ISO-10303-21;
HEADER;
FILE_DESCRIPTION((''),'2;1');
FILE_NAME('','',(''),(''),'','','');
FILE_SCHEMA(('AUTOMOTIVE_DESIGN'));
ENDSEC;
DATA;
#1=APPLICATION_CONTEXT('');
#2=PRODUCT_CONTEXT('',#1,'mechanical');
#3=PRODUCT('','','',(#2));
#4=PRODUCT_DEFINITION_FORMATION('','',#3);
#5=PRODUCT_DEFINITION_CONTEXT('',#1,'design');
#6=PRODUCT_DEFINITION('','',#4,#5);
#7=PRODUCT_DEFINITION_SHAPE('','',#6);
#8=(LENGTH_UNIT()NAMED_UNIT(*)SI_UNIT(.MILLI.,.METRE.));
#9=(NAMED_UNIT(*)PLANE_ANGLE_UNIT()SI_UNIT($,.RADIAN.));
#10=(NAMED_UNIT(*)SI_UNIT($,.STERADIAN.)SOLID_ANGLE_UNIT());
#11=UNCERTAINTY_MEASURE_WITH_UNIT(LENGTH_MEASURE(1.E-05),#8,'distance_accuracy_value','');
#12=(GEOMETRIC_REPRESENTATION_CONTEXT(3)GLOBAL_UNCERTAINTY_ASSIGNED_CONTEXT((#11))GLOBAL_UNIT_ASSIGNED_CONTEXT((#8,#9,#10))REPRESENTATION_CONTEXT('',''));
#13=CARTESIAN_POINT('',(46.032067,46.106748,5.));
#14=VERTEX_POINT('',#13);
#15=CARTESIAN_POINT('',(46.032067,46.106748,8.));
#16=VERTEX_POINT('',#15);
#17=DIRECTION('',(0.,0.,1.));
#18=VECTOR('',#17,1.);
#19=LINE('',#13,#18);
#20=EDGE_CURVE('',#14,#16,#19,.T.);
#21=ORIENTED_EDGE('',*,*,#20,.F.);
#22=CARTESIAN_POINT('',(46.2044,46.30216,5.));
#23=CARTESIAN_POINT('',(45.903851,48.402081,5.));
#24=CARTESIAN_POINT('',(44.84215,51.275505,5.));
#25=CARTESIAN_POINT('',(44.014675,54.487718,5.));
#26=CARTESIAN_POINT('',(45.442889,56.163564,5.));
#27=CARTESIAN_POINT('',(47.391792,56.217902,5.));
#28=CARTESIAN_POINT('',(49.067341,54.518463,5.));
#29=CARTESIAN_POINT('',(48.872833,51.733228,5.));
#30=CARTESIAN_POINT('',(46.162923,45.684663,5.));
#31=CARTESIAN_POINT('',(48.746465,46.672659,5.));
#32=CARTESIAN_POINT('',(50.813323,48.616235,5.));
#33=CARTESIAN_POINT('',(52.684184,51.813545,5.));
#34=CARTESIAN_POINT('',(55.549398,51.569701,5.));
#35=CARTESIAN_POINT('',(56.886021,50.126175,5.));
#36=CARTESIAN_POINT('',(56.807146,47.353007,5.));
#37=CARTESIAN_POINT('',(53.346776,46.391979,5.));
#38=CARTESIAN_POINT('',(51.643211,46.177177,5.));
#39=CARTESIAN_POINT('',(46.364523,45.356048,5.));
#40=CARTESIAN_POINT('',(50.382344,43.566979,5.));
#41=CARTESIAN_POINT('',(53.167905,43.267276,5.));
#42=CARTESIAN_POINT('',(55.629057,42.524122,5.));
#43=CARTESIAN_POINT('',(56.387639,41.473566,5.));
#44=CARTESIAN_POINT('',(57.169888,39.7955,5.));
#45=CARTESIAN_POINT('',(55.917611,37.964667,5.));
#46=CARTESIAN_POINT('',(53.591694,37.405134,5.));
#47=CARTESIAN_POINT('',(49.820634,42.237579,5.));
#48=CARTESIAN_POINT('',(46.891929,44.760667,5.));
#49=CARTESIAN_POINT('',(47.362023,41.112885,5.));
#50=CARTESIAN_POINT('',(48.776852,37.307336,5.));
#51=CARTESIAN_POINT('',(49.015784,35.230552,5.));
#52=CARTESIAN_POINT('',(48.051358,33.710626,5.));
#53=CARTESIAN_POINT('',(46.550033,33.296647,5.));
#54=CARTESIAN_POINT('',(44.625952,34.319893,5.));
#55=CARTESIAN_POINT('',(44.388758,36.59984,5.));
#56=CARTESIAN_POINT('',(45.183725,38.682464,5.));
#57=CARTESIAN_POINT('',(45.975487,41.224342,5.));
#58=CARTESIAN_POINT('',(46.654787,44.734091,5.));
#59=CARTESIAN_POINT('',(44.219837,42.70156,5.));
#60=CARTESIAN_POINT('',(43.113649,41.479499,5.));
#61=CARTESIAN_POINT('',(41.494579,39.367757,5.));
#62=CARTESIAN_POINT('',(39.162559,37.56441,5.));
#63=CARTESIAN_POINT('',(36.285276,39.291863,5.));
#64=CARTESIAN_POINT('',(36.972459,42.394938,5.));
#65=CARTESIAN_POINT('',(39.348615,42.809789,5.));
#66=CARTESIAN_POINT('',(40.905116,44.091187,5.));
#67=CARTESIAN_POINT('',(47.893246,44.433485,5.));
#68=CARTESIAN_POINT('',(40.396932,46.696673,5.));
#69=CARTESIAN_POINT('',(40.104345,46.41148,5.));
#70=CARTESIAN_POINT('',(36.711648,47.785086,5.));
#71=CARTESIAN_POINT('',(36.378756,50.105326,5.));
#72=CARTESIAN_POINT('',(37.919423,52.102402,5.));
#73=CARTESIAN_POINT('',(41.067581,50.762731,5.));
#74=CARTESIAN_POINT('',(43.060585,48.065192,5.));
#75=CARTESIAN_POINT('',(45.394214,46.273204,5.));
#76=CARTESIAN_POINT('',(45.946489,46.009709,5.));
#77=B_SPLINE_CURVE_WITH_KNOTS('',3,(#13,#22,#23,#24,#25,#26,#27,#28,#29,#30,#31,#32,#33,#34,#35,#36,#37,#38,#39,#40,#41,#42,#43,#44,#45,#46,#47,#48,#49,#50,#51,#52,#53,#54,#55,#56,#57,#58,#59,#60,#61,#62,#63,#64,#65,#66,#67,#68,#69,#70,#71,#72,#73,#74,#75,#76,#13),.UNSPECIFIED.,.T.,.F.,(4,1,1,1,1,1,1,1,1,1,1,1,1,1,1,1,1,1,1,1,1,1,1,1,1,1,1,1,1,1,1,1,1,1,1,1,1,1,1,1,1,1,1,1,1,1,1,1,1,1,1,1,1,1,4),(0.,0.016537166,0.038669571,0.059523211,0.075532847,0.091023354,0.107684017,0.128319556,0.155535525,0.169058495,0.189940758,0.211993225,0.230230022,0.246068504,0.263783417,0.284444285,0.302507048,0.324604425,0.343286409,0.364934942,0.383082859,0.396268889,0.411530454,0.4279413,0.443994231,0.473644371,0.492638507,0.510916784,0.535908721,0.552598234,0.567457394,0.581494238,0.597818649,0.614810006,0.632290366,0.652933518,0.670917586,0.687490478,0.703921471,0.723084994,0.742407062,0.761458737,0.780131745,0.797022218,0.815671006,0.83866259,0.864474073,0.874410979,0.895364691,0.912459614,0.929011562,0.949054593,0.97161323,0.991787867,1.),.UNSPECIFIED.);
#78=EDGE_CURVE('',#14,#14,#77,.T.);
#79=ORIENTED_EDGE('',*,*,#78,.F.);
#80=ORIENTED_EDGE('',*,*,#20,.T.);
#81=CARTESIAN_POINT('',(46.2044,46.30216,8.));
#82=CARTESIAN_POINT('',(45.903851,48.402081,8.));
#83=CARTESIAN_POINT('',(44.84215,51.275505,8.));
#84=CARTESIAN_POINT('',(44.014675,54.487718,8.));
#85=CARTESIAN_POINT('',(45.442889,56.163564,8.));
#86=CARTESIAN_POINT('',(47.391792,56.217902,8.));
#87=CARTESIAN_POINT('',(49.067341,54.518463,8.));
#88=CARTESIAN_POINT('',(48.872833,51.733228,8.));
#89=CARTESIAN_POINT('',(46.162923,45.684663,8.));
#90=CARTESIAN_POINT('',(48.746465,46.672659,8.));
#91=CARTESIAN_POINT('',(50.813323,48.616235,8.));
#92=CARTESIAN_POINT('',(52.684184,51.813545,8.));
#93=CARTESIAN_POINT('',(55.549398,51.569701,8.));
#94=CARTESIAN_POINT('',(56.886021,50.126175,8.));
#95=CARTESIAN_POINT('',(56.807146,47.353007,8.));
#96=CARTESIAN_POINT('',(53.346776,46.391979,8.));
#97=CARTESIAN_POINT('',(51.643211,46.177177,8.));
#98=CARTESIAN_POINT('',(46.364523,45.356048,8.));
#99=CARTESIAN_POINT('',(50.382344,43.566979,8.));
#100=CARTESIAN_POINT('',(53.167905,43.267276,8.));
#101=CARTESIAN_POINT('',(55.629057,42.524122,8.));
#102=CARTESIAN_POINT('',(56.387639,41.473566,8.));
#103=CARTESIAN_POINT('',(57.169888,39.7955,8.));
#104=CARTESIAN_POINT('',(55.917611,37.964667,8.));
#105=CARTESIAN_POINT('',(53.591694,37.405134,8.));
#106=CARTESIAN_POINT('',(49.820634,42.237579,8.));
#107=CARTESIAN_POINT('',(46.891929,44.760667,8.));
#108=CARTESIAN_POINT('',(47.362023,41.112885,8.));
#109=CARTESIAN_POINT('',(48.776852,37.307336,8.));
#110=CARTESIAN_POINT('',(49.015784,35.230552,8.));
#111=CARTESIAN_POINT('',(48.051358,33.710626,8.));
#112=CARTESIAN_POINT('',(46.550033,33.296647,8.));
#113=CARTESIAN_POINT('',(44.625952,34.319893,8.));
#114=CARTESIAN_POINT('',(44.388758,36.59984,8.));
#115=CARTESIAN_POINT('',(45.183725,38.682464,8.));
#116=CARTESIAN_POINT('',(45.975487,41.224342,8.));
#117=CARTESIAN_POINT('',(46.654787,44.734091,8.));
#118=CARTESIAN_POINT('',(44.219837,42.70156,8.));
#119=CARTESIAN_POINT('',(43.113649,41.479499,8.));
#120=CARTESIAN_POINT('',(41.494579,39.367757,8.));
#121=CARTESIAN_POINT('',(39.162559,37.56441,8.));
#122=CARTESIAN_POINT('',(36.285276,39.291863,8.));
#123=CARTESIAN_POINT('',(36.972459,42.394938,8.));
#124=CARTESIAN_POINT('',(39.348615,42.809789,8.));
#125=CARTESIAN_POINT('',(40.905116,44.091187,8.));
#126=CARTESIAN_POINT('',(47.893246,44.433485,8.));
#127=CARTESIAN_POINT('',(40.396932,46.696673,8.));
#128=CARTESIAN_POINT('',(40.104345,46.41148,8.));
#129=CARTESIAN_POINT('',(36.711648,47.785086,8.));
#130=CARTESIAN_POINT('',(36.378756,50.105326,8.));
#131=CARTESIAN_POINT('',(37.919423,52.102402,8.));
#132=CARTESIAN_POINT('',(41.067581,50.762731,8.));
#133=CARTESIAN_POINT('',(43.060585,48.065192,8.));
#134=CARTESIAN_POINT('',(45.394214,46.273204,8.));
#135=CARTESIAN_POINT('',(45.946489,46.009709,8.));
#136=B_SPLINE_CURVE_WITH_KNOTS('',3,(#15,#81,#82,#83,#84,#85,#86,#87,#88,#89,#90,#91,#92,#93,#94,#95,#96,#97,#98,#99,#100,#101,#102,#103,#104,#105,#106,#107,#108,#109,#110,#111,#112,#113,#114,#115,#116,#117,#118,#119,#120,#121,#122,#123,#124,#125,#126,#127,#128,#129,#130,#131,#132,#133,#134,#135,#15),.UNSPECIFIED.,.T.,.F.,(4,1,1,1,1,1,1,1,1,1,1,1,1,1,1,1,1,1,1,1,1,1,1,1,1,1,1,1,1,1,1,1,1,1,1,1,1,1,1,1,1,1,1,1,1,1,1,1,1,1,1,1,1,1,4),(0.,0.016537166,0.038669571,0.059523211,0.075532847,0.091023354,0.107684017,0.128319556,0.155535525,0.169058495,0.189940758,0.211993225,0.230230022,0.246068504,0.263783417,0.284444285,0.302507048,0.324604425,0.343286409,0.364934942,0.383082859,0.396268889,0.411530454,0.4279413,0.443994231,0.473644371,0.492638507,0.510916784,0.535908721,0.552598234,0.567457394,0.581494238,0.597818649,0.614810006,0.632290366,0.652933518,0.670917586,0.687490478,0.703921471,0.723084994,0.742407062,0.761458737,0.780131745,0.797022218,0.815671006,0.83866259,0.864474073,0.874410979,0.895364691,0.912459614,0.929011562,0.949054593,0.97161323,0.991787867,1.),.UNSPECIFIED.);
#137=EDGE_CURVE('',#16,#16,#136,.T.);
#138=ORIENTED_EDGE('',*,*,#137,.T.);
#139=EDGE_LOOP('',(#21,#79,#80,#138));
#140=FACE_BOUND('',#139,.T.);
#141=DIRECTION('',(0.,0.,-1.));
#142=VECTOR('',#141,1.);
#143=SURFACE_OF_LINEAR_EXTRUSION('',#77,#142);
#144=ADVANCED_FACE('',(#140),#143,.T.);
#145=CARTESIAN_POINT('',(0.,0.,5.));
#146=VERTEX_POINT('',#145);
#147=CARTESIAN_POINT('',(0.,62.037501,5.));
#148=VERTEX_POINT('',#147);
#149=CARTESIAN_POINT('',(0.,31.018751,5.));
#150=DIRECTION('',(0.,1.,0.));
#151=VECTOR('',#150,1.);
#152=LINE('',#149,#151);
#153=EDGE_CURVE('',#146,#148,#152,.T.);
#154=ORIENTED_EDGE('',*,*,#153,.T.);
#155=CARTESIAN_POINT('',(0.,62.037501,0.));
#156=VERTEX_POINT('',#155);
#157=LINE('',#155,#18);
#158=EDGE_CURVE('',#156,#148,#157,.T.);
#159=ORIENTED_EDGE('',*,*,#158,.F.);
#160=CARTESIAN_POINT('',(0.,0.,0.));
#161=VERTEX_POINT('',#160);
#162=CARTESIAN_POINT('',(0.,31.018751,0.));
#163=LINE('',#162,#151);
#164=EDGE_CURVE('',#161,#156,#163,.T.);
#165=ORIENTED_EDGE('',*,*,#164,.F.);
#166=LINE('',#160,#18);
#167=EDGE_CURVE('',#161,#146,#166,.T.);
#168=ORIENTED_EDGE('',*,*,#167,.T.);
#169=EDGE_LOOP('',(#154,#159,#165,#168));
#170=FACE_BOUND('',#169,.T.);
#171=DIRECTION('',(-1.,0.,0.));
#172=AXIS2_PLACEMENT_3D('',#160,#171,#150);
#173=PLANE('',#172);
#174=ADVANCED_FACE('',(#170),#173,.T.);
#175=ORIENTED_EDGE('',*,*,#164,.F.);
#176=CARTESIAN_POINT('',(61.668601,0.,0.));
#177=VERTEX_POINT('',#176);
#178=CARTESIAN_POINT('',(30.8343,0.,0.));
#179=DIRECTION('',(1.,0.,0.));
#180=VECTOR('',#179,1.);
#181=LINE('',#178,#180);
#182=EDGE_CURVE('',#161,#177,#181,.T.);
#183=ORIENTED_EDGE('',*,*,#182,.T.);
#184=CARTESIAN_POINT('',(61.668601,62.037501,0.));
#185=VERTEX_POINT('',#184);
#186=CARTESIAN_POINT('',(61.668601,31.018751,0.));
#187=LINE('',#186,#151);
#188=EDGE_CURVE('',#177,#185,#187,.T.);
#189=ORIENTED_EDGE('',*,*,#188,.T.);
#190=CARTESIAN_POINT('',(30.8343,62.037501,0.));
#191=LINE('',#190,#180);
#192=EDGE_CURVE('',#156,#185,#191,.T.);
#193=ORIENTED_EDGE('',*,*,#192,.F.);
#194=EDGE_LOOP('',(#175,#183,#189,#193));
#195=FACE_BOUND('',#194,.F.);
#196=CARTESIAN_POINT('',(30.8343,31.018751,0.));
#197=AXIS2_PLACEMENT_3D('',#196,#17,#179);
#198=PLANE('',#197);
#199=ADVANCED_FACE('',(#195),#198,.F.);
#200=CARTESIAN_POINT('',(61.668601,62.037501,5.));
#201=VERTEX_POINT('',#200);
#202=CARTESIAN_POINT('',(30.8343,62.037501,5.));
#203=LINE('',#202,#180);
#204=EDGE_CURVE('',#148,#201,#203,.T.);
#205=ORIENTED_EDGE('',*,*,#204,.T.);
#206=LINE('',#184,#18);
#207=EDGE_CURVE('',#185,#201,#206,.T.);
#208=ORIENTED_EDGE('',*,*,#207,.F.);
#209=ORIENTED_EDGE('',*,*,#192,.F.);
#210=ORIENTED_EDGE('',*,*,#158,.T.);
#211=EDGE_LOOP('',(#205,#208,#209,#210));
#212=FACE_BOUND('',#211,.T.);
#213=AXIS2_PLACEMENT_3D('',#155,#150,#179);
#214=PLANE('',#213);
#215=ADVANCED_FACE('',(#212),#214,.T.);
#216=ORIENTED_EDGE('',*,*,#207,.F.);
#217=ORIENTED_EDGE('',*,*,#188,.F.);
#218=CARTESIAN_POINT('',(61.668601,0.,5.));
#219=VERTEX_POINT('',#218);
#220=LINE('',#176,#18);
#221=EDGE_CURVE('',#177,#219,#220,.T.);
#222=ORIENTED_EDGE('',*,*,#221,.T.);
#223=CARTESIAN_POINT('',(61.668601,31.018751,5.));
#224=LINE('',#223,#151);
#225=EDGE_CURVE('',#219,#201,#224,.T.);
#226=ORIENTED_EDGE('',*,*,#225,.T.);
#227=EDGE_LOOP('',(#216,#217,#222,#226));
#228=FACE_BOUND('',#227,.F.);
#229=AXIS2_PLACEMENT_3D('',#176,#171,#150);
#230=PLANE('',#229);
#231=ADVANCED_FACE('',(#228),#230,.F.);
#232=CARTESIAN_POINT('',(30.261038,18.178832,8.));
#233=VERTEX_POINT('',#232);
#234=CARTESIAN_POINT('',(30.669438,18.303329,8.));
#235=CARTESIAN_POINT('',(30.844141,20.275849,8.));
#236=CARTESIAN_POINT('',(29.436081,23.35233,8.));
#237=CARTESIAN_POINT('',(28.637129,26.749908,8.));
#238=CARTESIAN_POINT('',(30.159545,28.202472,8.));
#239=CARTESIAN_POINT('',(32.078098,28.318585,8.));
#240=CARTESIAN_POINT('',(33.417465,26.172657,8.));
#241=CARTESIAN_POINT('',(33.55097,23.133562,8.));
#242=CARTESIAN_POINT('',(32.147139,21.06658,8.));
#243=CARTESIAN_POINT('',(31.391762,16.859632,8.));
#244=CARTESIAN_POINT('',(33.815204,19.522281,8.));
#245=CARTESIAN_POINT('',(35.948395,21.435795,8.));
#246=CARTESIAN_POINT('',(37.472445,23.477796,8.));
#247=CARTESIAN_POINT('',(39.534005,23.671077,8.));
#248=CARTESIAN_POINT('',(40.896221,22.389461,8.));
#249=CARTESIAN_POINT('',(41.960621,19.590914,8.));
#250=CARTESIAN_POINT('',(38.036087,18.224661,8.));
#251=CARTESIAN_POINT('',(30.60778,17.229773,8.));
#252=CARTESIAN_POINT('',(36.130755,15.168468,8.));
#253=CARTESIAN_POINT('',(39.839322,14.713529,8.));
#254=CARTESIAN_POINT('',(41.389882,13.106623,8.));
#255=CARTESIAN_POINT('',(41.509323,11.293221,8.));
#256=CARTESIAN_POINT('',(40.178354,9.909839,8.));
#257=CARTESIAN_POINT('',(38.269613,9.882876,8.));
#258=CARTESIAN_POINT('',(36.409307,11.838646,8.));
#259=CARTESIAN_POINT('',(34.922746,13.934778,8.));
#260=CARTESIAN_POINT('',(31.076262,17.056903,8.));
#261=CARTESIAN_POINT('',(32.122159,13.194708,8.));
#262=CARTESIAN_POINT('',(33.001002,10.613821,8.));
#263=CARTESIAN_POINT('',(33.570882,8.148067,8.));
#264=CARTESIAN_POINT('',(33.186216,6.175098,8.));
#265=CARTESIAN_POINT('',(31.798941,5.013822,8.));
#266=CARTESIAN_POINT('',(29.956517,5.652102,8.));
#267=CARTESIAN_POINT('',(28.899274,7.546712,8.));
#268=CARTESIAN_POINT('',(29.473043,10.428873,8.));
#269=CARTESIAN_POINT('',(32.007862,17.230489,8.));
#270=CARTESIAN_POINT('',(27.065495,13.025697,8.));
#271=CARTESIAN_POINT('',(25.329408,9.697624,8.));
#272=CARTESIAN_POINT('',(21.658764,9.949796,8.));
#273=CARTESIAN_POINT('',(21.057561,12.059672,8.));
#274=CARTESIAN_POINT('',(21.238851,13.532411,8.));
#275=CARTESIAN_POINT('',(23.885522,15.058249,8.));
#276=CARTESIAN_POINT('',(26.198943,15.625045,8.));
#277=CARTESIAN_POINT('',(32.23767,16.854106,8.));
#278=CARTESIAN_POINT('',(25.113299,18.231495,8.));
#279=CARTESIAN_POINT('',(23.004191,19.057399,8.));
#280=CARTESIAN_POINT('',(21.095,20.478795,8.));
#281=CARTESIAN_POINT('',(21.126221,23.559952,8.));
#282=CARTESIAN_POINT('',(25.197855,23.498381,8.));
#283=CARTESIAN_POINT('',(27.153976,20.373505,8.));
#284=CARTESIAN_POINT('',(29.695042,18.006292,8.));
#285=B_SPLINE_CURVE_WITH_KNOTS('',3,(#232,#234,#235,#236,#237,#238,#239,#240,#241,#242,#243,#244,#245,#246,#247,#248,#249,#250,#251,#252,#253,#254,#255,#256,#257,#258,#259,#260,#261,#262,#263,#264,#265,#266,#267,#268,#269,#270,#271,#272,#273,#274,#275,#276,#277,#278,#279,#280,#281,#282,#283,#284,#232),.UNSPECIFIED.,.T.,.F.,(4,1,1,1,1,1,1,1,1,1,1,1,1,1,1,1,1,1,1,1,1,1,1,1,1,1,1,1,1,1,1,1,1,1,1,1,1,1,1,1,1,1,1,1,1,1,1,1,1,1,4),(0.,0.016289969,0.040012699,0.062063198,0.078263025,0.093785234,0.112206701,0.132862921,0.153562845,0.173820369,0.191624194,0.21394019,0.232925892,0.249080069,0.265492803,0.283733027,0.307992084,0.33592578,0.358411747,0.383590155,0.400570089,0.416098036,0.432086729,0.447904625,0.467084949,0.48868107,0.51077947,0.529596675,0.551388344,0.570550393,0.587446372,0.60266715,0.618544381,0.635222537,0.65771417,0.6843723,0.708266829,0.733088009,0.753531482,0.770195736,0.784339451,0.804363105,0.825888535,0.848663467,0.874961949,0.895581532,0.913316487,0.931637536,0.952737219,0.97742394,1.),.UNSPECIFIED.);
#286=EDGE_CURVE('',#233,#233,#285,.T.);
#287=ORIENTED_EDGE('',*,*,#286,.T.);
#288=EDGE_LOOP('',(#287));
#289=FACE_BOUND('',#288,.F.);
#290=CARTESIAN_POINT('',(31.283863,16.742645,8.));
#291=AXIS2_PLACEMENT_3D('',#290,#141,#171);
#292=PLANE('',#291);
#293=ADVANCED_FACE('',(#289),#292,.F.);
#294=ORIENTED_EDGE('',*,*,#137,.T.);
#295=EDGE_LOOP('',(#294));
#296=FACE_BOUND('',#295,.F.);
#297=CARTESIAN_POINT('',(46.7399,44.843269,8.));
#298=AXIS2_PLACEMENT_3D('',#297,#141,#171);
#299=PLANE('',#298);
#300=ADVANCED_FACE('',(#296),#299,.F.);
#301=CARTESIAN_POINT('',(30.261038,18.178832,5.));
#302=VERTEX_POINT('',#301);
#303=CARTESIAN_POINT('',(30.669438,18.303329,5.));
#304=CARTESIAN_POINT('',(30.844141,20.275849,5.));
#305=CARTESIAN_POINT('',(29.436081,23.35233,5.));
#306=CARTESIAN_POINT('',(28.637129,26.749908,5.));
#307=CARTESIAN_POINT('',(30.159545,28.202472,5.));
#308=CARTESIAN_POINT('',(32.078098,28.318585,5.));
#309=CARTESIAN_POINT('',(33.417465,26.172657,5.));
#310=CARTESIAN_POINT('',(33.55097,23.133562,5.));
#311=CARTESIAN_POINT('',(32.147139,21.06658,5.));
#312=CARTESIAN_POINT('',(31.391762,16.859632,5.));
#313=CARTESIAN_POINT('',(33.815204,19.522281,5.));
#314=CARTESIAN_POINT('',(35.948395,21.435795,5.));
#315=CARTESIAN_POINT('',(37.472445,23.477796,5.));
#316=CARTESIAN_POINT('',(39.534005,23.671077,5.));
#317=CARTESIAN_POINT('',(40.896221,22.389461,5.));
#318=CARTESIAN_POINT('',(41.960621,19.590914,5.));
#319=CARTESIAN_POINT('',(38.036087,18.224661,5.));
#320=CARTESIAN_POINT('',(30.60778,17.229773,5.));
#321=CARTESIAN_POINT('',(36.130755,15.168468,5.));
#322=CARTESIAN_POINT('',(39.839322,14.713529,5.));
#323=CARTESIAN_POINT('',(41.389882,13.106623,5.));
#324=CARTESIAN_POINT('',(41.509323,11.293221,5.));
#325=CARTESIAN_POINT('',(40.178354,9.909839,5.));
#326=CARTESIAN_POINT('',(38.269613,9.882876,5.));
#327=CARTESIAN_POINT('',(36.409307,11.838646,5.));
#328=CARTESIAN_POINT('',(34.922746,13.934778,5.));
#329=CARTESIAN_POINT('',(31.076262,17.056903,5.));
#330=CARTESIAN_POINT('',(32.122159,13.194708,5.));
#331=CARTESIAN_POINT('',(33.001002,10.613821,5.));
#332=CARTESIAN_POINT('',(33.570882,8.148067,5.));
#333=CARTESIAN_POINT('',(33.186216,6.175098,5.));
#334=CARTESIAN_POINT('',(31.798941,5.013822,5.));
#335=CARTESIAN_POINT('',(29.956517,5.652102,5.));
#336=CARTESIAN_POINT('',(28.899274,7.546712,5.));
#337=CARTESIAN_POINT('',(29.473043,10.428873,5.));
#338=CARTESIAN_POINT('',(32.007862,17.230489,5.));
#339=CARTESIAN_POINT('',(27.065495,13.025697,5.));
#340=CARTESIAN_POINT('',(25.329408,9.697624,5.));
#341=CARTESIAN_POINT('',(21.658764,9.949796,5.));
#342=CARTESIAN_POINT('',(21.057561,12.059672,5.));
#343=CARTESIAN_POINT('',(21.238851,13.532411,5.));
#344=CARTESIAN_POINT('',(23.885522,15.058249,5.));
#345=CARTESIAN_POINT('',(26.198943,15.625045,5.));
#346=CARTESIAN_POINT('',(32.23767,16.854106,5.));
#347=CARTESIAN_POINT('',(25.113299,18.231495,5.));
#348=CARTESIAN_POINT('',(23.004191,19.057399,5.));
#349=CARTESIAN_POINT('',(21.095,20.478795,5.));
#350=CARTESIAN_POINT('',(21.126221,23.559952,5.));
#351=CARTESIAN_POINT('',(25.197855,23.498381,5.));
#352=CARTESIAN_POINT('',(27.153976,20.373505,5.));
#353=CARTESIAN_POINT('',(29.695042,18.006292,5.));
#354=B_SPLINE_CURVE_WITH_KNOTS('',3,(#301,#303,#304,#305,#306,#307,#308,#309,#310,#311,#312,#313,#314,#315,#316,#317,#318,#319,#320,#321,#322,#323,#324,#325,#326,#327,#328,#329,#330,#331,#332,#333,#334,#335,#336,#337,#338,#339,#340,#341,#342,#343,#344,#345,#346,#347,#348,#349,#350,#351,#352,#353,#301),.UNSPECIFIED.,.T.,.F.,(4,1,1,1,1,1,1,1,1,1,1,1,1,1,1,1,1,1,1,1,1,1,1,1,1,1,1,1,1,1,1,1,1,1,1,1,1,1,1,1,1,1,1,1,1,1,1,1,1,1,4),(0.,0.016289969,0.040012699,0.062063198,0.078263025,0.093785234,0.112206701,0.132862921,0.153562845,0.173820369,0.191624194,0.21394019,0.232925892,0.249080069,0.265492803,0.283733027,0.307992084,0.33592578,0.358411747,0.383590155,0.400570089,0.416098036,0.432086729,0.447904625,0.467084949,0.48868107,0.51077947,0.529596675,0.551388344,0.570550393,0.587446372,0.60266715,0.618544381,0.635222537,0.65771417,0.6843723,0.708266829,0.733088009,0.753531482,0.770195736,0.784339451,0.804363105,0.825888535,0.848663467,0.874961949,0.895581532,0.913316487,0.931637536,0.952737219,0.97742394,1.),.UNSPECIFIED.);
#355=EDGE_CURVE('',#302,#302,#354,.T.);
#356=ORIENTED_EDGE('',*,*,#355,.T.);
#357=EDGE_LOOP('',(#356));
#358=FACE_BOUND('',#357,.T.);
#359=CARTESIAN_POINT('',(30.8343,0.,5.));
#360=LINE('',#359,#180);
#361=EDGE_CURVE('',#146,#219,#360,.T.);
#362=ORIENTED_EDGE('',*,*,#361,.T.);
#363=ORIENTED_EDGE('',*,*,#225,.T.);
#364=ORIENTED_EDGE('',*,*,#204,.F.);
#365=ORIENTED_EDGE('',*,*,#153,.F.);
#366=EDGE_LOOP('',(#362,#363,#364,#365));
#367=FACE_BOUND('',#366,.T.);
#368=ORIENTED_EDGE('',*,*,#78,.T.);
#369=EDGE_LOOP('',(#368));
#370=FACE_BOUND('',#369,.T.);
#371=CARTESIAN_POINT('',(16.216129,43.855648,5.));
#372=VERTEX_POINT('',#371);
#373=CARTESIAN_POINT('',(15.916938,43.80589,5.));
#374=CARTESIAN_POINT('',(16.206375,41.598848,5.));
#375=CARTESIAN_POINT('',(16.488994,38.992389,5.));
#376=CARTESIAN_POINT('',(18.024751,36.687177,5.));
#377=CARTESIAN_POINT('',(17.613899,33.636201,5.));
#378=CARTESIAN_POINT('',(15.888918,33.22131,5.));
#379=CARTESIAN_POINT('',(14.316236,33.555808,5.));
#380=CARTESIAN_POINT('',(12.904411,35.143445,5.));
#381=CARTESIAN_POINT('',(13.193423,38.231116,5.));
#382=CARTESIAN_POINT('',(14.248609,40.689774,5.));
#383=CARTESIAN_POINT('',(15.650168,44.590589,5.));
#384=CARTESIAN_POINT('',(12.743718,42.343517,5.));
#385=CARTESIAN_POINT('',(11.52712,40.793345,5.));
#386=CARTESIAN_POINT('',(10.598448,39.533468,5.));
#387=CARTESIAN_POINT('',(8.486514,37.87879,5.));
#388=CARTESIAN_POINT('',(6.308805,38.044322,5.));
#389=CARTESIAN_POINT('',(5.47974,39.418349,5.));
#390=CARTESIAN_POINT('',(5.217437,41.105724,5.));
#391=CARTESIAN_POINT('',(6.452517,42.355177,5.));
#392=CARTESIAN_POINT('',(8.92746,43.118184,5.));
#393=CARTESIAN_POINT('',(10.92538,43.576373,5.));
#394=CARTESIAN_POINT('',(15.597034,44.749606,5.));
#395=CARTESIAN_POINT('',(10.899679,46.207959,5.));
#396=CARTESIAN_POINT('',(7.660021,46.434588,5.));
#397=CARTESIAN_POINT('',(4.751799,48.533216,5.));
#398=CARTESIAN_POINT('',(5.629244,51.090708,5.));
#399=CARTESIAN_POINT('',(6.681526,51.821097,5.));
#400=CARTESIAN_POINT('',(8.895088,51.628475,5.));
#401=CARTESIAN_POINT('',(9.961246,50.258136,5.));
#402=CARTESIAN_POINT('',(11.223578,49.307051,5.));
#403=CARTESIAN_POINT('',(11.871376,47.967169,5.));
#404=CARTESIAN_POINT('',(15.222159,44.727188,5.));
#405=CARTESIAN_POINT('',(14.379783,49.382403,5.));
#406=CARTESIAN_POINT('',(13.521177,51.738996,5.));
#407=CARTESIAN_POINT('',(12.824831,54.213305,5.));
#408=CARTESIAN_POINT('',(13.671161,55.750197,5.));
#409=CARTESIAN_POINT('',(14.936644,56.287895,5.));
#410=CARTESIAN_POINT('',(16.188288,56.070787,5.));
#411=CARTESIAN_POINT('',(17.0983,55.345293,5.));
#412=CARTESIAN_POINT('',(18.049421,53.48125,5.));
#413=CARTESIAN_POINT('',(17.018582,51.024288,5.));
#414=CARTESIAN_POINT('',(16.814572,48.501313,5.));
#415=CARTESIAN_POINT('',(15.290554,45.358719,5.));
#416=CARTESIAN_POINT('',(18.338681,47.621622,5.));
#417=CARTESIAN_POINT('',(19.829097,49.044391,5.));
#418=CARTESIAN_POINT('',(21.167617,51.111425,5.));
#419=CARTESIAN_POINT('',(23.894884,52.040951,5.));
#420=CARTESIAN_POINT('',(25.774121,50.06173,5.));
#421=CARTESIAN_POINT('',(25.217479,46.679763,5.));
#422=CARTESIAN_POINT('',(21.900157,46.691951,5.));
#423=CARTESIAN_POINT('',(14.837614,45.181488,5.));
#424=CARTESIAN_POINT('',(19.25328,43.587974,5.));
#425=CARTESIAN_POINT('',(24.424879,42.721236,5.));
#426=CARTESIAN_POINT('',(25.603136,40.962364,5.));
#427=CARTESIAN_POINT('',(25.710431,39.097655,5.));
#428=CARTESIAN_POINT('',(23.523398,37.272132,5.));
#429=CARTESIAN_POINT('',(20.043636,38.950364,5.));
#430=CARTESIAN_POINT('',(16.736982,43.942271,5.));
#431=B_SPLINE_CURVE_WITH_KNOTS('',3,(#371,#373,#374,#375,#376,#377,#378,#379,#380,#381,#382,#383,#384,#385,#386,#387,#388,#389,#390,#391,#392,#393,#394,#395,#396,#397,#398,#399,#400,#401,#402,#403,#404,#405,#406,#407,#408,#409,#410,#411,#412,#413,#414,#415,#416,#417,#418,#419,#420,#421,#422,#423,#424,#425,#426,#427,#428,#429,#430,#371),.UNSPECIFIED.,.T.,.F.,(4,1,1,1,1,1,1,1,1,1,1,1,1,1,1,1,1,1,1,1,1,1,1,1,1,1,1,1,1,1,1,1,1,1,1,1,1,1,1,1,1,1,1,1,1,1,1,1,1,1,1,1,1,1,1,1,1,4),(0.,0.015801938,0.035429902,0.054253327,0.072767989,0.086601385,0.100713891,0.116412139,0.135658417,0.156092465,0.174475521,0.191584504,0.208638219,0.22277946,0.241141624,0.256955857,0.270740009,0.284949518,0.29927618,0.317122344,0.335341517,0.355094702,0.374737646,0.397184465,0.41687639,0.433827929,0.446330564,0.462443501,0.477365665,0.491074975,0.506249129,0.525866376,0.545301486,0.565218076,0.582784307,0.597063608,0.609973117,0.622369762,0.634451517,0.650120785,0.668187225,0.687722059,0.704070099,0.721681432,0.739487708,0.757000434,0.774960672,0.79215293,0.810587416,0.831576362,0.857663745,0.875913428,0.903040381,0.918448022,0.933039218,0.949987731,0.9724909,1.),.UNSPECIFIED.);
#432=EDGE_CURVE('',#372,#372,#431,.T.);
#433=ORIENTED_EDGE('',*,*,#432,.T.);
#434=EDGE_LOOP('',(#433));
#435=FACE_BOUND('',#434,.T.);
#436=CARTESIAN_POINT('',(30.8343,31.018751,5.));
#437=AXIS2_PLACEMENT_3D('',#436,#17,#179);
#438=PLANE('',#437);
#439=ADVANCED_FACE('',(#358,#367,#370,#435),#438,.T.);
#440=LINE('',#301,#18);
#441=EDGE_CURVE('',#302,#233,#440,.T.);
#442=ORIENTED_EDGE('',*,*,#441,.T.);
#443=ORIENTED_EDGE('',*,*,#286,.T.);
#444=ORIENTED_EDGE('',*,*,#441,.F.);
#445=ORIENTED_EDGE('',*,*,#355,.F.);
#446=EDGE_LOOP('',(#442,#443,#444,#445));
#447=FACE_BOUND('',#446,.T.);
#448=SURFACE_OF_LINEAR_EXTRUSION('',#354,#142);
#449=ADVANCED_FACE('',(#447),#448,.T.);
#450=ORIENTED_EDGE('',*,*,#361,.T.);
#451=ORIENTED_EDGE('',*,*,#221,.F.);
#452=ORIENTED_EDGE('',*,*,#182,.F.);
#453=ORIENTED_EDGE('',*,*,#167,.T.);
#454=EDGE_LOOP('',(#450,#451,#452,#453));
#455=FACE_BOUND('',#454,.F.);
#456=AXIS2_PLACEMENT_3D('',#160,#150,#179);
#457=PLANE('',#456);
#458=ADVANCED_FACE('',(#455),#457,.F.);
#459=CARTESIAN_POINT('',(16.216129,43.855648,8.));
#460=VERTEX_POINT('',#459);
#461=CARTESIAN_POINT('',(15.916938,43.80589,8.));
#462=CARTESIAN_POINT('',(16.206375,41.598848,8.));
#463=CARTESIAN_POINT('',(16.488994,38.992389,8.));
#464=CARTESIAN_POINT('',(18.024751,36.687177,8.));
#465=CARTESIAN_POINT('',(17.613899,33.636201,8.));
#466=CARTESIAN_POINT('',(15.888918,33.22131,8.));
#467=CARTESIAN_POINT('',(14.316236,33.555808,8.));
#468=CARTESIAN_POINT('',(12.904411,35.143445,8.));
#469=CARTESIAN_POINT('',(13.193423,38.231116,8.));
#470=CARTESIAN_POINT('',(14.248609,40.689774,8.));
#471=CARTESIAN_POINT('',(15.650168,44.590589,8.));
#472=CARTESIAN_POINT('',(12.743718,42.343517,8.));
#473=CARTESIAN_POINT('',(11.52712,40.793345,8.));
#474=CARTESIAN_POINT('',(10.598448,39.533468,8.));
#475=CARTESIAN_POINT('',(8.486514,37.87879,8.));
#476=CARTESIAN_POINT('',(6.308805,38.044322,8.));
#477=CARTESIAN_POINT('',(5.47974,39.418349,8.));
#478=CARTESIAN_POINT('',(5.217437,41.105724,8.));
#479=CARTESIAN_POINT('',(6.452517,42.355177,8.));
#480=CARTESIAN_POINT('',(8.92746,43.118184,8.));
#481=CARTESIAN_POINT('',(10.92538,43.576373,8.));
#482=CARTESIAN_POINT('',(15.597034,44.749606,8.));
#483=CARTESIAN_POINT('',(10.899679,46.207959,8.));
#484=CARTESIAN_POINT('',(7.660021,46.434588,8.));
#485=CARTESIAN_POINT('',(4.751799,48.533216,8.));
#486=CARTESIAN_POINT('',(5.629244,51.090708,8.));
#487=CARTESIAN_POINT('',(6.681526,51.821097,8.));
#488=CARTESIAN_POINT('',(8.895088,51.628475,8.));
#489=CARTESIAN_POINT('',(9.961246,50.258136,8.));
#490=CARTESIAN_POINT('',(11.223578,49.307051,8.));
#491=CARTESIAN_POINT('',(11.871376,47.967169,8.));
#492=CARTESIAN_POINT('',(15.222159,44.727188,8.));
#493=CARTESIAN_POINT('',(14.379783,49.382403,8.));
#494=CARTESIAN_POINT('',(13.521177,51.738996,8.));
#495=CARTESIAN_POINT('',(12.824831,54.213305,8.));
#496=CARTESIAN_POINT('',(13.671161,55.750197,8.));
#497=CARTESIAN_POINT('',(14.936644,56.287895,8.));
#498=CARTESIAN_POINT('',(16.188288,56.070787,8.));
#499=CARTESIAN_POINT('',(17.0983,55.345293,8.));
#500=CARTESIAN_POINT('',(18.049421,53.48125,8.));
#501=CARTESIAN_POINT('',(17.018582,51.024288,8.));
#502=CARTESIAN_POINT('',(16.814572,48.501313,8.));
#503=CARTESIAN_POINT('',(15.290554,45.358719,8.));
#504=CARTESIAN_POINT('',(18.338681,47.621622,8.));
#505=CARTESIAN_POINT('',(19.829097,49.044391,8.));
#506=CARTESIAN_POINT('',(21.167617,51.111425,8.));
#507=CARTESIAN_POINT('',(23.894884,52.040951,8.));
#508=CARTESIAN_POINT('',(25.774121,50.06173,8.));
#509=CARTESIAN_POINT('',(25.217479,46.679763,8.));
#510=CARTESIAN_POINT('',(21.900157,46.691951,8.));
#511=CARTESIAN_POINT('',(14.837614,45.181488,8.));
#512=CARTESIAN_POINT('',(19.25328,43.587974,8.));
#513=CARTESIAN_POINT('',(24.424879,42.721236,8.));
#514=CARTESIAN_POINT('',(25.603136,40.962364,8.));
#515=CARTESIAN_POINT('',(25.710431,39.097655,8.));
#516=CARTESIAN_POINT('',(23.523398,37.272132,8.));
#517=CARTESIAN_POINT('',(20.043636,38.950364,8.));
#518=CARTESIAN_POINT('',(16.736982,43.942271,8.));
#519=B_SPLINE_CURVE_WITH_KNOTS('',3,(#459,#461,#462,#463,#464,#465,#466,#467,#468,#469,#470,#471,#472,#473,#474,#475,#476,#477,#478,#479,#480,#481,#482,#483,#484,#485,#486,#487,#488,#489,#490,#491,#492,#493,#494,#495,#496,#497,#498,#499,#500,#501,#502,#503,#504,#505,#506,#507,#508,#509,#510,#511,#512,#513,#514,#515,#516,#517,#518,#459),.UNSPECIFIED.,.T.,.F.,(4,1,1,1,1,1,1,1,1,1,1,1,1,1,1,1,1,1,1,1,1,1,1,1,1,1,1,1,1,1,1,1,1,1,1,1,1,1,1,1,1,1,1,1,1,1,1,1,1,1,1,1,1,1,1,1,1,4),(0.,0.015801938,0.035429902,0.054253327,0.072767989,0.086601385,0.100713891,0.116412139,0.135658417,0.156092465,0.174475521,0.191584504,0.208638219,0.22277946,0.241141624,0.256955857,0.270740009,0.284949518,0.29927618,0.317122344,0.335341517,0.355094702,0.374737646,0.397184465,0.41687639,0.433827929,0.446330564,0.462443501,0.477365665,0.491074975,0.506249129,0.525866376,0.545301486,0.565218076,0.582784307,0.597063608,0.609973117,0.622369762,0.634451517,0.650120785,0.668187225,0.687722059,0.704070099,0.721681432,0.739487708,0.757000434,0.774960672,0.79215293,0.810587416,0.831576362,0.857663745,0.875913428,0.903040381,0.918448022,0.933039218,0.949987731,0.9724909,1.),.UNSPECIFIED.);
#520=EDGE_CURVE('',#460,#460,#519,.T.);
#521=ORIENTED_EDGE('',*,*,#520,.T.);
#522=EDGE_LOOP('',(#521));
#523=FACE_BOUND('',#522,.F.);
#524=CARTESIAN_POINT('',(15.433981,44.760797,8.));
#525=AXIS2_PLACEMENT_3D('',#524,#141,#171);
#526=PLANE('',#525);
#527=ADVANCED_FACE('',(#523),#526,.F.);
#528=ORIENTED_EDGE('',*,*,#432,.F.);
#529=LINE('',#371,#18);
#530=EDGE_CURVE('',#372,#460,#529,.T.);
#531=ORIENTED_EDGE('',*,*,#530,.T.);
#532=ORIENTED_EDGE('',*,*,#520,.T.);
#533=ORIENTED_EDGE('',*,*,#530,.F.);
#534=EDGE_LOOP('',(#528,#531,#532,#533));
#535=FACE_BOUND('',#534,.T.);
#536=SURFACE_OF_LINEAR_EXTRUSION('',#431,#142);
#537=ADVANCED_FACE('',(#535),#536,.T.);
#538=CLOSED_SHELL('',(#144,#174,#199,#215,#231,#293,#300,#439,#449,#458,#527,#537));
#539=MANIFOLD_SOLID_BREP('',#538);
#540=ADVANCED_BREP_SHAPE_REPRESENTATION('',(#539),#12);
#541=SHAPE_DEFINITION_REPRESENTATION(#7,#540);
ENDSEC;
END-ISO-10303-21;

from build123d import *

# Parameters (mm, degrees)
F0_W     = 61.6686008871
F0_H     = 62.0375014842
F1_DEPTH = 5
F3_DEPTH = 3


with BuildPart() as f1:
    # F0 (on Top) → F1 (new body)
    with BuildSketch(Plane.XY):
        with Locations((30.8343004435, 31.0187507421)):
            Rectangle(F0_W, F0_H)
    extrude(amount=F1_DEPTH)

    # F2 (on face) → F3 (join)
    with BuildSketch(Plane.XY.offset(5)):
        with BuildLine():
            add(Edge.make_bspline(
                [(30.2610378712, 18.1788317859), (30.6694376326, 18.3033293103), (30.8441409658, 20.2758487663), (29.436081421, 23.352330329), (28.6371290629, 26.7499078904), (30.1595447152, 28.2024718596), (32.0780980909, 28.3185846369), (33.4174649075, 26.1726571117), (33.5509699835, 23.133562164), (32.1471394579, 21.0665799202), (31.3917621074, 16.8596318665), (33.8152036854, 19.5222808589), (35.9483952613, 21.4357948241), (37.4724454586, 23.4777961557), (39.5340053974, 23.6710773519), (40.8962205835, 22.3894607415), (41.9606208751, 19.5909139481), (38.0360868934, 18.2246613327), (30.6077797037, 17.2297730798), (36.130755049, 15.1684681823), (39.8393223356, 14.7135290076), (41.3898818155, 13.1066233913), (41.5093227228, 11.2932205819), (40.178353632, 9.909838774), (38.2696127607, 9.8828763223), (36.40930663, 11.8386461155), (34.9227457268, 13.9347784432), (31.0762623841, 17.0569034394), (32.1221585048, 13.1947076675), (33.0010019074, 10.6138208786), (33.5708820848, 8.1480670262), (33.1862163447, 6.1750983877), (31.7989409124, 5.0138216146), (29.9565174869, 5.6521023886), (28.8992738324, 7.546711614), (29.4730432127, 10.4288726392), (32.007861684, 17.2304890096), (27.0654947466, 13.0256967026), (25.329408206, 9.6976236146), (21.6587640814, 9.9497959827), (21.0575608149, 12.059671937), (21.2388508432, 13.5324112384), (23.8855215003, 15.0582492532), (26.1989429716, 15.6250449492), (32.2376696547, 16.854106023), (25.1132989962, 18.2314945126), (23.0041909087, 19.0573989907), (21.0950001205, 20.4787945343), (21.1262207767, 23.5599515708), (25.1978553485, 23.4983809184), (27.1539755122, 20.3735051578), (29.69504184, 18.0062922515), (30.2610378712, 18.1788317859)],
                knots=[0, 0, 0, 0, 0.0162899685, 0.0400126991, 0.0620631981, 0.0782630245, 0.0937852343, 0.1122067008, 0.1328629213, 0.1535628453, 0.1738203689, 0.1916241935, 0.2139401904, 0.2329258924, 0.2490800694, 0.2654928029, 0.283733027, 0.3079920842, 0.3359257802, 0.3584117467, 0.3835901545, 0.4005700893, 0.4160980359, 0.4320867288, 0.4479046246, 0.4670849494, 0.4886810702, 0.51077947, 0.5295966746, 0.5513883444, 0.5705503931, 0.5874463719, 0.6026671499, 0.6185443811, 0.6352225373, 0.6577141697, 0.6843723004, 0.7082668288, 0.7330880095, 0.7535314818, 0.7701957358, 0.7843394506, 0.8043631048, 0.8258885351, 0.8486634668, 0.8749619495, 0.8955815317, 0.913316487, 0.9316375359, 0.9527372188, 0.97742394, 1, 1, 1, 1], degree=3))
        make_face()
        with BuildLine():
            add(Edge.make_bspline(
                [(16.2161290646, 43.8556484878), (15.9169376857, 43.8058901334), (16.2063753053, 41.5988475719), (16.4889942075, 38.9923889295), (18.0247508516, 36.6871767793), (17.6138988853, 33.6362007331), (15.8889181393, 33.221309854), (14.3162362862, 33.5558083395), (12.904410524, 35.1434446875), (13.193423289, 38.2311162727), (14.2486092827, 40.6897743425), (15.6501682778, 44.590588523), (12.7437178835, 42.3435166181), (11.5271196433, 40.7933453625), (10.5984480729, 39.533467913), (8.4865141391, 37.8787902716), (6.3088047241, 38.04432193), (5.4797400027, 39.4183485085), (5.2174372547, 41.1057239061), (6.4525168974, 42.3551774816), (8.9274603133, 43.1181843798), (10.9253795313, 43.57637312), (15.5970344792, 44.749606371), (10.8996785535, 46.2079593207), (7.6600213804, 46.4345884232), (4.7517985871, 48.5332163496), (5.6292442987, 51.0907075478), (6.6815261768, 51.8210967819), (8.8950881682, 51.628474744), (9.9612462911, 50.2581359416), (11.2235776179, 49.3070510545), (11.8713757, 47.9671691237), (15.2221585513, 44.7271882441), (14.3797826213, 49.3824027866), (13.5211768205, 51.7389960211), (12.8248310321, 54.2133048509), (13.6711605885, 55.7501971942), (14.936643807, 56.2878953676), (16.1882875887, 56.0707873648), (17.0982998907, 55.3452925522), (18.0494205928, 53.4812502554), (17.0185817302, 51.024287944), (16.8145724366, 48.5013128582), (15.2905544458, 45.3587193461), (18.3386810351, 47.621621725), (19.8290967891, 49.0443907459), (21.1676172461, 51.111425454), (23.8948844736, 52.0409510069), (25.7741205114, 50.0617295024), (25.2174788334, 46.6797633233), (21.900157081, 46.6919505346), (14.8376138268, 45.1814878791), (19.2532801832, 43.5879738153), (24.424878501, 42.721235861), (25.6031363267, 40.9623643561), (25.7104311152, 39.0976546735), (23.5233980641, 37.2721318853), (20.043636041, 38.950363771), (16.7369819856, 43.9422712519), (16.2161290646, 43.8556484878)],
                knots=[0, 0, 0, 0, 0.0158019381, 0.0354299016, 0.0542533266, 0.0727679892, 0.0866013852, 0.1007138906, 0.1164121395, 0.1356584172, 0.1560924648, 0.1744755212, 0.1915845036, 0.2086382192, 0.22277946, 0.2411416236, 0.2569558571, 0.2707400085, 0.2849495179, 0.2992761796, 0.3171223443, 0.3353415169, 0.355094702, 0.3747376464, 0.3971844649, 0.4168763902, 0.4338279292, 0.4463305639, 0.4624435007, 0.4773656646, 0.4910749753, 0.5062491285, 0.5258663755, 0.5453014861, 0.5652180758, 0.5827843067, 0.5970636077, 0.6099731171, 0.6223697618, 0.6344515172, 0.6501207852, 0.6681872248, 0.687722059, 0.7040700991, 0.7216814317, 0.7394877077, 0.7570004341, 0.774960672, 0.7921529304, 0.8105874157, 0.8315763619, 0.8576637451, 0.8759134276, 0.9030403813, 0.9184480222, 0.9330392181, 0.9499877311, 0.9724908998, 1, 1, 1, 1], degree=3))
        make_face()
        with BuildLine():
            add(Edge.make_bspline(
                [(46.0320673883, 46.1067482829), (46.204399819, 46.3021599565), (45.9038506646, 48.4020809982), (44.8421502676, 51.2755048321), (44.0146745822, 54.4877179791), (45.4428888128, 56.1635641884), (47.3917922388, 56.2179018548), (49.0673414855, 54.5184632086), (48.8728329299, 51.7332283898), (46.1629229167, 45.6846625173), (48.7464648696, 46.6726586874), (50.8133228413, 48.6162348357), (52.6841843675, 51.813544907), (55.5493977332, 51.569700574), (56.8860212905, 50.1261745009), (56.8071460689, 47.353007477), (53.3467764741, 46.3919788706), (51.643211455, 46.1771769093), (46.3645225275, 45.356047926), (50.3823440854, 43.5669788944), (53.1679046236, 43.267276347), (55.6290569718, 42.5241223791), (56.3876385689, 41.4735662787), (57.1698881494, 39.7955002355), (55.9176110185, 37.9646666809), (53.5916938116, 37.4051344681), (49.8206336827, 42.2375788612), (46.8919292393, 44.7606666698), (47.3620233433, 41.1128846816), (48.7768523513, 37.3073361041), (49.0157841096, 35.2305515049), (48.0513578303, 33.7106263795), (46.5500333878, 33.2966468613), (44.6259521169, 34.3198926372), (44.3887582809, 36.5998404936), (45.1837252687, 38.6824644374), (45.9754866499, 41.2243422194), (46.6547865884, 44.7340911212), (44.2198371239, 42.7015596737), (43.1136491852, 41.4794991823), (41.4945788357, 39.367756636), (39.1625594854, 37.5644095002), (36.2852764445, 39.2918625387), (36.9724594103, 42.3949377579), (39.3486147845, 42.8097888534), (40.9051162575, 44.0911865393), (47.8932464532, 44.433484857), (40.3969322215, 46.6966733168), (40.1043451286, 46.4114798955), (36.7116478, 47.7850855946), (36.3787563071, 50.1053259942), (37.9194227791, 52.1024019945), (41.0675809172, 50.7627306355), (43.060584631, 48.0651923905), (45.3942136981, 46.2732042058), (45.9464894333, 46.0097094879), (46.0320673883, 46.1067482829)],
                knots=[0, 0, 0, 0, 0.0165371665, 0.0386695709, 0.0595232108, 0.0755328467, 0.091023354, 0.1076840166, 0.128319556, 0.1555355254, 0.1690584949, 0.1899407575, 0.2119932247, 0.2302300221, 0.2460685035, 0.2637834171, 0.2844442849, 0.3025070485, 0.3246044248, 0.3432864094, 0.3649349422, 0.383082859, 0.3962688892, 0.4115304541, 0.4279413004, 0.4439942306, 0.4736443708, 0.4926385071, 0.5109167835, 0.535908721, 0.5525982337, 0.5674573941, 0.5814942383, 0.5978186488, 0.6148100065, 0.6322903664, 0.6529335176, 0.6709175862, 0.6874904782, 0.7039214707, 0.7230849945, 0.7424070619, 0.7614587372, 0.7801317453, 0.7970222185, 0.8156710061, 0.8386625898, 0.8644740732, 0.8744109794, 0.8953646908, 0.9124596144, 0.9290115618, 0.9490545925, 0.9716132296, 0.9917878667, 1, 1, 1, 1], degree=3))
        make_face()
    extrude(amount=F3_DEPTH)


solid = f1.part
